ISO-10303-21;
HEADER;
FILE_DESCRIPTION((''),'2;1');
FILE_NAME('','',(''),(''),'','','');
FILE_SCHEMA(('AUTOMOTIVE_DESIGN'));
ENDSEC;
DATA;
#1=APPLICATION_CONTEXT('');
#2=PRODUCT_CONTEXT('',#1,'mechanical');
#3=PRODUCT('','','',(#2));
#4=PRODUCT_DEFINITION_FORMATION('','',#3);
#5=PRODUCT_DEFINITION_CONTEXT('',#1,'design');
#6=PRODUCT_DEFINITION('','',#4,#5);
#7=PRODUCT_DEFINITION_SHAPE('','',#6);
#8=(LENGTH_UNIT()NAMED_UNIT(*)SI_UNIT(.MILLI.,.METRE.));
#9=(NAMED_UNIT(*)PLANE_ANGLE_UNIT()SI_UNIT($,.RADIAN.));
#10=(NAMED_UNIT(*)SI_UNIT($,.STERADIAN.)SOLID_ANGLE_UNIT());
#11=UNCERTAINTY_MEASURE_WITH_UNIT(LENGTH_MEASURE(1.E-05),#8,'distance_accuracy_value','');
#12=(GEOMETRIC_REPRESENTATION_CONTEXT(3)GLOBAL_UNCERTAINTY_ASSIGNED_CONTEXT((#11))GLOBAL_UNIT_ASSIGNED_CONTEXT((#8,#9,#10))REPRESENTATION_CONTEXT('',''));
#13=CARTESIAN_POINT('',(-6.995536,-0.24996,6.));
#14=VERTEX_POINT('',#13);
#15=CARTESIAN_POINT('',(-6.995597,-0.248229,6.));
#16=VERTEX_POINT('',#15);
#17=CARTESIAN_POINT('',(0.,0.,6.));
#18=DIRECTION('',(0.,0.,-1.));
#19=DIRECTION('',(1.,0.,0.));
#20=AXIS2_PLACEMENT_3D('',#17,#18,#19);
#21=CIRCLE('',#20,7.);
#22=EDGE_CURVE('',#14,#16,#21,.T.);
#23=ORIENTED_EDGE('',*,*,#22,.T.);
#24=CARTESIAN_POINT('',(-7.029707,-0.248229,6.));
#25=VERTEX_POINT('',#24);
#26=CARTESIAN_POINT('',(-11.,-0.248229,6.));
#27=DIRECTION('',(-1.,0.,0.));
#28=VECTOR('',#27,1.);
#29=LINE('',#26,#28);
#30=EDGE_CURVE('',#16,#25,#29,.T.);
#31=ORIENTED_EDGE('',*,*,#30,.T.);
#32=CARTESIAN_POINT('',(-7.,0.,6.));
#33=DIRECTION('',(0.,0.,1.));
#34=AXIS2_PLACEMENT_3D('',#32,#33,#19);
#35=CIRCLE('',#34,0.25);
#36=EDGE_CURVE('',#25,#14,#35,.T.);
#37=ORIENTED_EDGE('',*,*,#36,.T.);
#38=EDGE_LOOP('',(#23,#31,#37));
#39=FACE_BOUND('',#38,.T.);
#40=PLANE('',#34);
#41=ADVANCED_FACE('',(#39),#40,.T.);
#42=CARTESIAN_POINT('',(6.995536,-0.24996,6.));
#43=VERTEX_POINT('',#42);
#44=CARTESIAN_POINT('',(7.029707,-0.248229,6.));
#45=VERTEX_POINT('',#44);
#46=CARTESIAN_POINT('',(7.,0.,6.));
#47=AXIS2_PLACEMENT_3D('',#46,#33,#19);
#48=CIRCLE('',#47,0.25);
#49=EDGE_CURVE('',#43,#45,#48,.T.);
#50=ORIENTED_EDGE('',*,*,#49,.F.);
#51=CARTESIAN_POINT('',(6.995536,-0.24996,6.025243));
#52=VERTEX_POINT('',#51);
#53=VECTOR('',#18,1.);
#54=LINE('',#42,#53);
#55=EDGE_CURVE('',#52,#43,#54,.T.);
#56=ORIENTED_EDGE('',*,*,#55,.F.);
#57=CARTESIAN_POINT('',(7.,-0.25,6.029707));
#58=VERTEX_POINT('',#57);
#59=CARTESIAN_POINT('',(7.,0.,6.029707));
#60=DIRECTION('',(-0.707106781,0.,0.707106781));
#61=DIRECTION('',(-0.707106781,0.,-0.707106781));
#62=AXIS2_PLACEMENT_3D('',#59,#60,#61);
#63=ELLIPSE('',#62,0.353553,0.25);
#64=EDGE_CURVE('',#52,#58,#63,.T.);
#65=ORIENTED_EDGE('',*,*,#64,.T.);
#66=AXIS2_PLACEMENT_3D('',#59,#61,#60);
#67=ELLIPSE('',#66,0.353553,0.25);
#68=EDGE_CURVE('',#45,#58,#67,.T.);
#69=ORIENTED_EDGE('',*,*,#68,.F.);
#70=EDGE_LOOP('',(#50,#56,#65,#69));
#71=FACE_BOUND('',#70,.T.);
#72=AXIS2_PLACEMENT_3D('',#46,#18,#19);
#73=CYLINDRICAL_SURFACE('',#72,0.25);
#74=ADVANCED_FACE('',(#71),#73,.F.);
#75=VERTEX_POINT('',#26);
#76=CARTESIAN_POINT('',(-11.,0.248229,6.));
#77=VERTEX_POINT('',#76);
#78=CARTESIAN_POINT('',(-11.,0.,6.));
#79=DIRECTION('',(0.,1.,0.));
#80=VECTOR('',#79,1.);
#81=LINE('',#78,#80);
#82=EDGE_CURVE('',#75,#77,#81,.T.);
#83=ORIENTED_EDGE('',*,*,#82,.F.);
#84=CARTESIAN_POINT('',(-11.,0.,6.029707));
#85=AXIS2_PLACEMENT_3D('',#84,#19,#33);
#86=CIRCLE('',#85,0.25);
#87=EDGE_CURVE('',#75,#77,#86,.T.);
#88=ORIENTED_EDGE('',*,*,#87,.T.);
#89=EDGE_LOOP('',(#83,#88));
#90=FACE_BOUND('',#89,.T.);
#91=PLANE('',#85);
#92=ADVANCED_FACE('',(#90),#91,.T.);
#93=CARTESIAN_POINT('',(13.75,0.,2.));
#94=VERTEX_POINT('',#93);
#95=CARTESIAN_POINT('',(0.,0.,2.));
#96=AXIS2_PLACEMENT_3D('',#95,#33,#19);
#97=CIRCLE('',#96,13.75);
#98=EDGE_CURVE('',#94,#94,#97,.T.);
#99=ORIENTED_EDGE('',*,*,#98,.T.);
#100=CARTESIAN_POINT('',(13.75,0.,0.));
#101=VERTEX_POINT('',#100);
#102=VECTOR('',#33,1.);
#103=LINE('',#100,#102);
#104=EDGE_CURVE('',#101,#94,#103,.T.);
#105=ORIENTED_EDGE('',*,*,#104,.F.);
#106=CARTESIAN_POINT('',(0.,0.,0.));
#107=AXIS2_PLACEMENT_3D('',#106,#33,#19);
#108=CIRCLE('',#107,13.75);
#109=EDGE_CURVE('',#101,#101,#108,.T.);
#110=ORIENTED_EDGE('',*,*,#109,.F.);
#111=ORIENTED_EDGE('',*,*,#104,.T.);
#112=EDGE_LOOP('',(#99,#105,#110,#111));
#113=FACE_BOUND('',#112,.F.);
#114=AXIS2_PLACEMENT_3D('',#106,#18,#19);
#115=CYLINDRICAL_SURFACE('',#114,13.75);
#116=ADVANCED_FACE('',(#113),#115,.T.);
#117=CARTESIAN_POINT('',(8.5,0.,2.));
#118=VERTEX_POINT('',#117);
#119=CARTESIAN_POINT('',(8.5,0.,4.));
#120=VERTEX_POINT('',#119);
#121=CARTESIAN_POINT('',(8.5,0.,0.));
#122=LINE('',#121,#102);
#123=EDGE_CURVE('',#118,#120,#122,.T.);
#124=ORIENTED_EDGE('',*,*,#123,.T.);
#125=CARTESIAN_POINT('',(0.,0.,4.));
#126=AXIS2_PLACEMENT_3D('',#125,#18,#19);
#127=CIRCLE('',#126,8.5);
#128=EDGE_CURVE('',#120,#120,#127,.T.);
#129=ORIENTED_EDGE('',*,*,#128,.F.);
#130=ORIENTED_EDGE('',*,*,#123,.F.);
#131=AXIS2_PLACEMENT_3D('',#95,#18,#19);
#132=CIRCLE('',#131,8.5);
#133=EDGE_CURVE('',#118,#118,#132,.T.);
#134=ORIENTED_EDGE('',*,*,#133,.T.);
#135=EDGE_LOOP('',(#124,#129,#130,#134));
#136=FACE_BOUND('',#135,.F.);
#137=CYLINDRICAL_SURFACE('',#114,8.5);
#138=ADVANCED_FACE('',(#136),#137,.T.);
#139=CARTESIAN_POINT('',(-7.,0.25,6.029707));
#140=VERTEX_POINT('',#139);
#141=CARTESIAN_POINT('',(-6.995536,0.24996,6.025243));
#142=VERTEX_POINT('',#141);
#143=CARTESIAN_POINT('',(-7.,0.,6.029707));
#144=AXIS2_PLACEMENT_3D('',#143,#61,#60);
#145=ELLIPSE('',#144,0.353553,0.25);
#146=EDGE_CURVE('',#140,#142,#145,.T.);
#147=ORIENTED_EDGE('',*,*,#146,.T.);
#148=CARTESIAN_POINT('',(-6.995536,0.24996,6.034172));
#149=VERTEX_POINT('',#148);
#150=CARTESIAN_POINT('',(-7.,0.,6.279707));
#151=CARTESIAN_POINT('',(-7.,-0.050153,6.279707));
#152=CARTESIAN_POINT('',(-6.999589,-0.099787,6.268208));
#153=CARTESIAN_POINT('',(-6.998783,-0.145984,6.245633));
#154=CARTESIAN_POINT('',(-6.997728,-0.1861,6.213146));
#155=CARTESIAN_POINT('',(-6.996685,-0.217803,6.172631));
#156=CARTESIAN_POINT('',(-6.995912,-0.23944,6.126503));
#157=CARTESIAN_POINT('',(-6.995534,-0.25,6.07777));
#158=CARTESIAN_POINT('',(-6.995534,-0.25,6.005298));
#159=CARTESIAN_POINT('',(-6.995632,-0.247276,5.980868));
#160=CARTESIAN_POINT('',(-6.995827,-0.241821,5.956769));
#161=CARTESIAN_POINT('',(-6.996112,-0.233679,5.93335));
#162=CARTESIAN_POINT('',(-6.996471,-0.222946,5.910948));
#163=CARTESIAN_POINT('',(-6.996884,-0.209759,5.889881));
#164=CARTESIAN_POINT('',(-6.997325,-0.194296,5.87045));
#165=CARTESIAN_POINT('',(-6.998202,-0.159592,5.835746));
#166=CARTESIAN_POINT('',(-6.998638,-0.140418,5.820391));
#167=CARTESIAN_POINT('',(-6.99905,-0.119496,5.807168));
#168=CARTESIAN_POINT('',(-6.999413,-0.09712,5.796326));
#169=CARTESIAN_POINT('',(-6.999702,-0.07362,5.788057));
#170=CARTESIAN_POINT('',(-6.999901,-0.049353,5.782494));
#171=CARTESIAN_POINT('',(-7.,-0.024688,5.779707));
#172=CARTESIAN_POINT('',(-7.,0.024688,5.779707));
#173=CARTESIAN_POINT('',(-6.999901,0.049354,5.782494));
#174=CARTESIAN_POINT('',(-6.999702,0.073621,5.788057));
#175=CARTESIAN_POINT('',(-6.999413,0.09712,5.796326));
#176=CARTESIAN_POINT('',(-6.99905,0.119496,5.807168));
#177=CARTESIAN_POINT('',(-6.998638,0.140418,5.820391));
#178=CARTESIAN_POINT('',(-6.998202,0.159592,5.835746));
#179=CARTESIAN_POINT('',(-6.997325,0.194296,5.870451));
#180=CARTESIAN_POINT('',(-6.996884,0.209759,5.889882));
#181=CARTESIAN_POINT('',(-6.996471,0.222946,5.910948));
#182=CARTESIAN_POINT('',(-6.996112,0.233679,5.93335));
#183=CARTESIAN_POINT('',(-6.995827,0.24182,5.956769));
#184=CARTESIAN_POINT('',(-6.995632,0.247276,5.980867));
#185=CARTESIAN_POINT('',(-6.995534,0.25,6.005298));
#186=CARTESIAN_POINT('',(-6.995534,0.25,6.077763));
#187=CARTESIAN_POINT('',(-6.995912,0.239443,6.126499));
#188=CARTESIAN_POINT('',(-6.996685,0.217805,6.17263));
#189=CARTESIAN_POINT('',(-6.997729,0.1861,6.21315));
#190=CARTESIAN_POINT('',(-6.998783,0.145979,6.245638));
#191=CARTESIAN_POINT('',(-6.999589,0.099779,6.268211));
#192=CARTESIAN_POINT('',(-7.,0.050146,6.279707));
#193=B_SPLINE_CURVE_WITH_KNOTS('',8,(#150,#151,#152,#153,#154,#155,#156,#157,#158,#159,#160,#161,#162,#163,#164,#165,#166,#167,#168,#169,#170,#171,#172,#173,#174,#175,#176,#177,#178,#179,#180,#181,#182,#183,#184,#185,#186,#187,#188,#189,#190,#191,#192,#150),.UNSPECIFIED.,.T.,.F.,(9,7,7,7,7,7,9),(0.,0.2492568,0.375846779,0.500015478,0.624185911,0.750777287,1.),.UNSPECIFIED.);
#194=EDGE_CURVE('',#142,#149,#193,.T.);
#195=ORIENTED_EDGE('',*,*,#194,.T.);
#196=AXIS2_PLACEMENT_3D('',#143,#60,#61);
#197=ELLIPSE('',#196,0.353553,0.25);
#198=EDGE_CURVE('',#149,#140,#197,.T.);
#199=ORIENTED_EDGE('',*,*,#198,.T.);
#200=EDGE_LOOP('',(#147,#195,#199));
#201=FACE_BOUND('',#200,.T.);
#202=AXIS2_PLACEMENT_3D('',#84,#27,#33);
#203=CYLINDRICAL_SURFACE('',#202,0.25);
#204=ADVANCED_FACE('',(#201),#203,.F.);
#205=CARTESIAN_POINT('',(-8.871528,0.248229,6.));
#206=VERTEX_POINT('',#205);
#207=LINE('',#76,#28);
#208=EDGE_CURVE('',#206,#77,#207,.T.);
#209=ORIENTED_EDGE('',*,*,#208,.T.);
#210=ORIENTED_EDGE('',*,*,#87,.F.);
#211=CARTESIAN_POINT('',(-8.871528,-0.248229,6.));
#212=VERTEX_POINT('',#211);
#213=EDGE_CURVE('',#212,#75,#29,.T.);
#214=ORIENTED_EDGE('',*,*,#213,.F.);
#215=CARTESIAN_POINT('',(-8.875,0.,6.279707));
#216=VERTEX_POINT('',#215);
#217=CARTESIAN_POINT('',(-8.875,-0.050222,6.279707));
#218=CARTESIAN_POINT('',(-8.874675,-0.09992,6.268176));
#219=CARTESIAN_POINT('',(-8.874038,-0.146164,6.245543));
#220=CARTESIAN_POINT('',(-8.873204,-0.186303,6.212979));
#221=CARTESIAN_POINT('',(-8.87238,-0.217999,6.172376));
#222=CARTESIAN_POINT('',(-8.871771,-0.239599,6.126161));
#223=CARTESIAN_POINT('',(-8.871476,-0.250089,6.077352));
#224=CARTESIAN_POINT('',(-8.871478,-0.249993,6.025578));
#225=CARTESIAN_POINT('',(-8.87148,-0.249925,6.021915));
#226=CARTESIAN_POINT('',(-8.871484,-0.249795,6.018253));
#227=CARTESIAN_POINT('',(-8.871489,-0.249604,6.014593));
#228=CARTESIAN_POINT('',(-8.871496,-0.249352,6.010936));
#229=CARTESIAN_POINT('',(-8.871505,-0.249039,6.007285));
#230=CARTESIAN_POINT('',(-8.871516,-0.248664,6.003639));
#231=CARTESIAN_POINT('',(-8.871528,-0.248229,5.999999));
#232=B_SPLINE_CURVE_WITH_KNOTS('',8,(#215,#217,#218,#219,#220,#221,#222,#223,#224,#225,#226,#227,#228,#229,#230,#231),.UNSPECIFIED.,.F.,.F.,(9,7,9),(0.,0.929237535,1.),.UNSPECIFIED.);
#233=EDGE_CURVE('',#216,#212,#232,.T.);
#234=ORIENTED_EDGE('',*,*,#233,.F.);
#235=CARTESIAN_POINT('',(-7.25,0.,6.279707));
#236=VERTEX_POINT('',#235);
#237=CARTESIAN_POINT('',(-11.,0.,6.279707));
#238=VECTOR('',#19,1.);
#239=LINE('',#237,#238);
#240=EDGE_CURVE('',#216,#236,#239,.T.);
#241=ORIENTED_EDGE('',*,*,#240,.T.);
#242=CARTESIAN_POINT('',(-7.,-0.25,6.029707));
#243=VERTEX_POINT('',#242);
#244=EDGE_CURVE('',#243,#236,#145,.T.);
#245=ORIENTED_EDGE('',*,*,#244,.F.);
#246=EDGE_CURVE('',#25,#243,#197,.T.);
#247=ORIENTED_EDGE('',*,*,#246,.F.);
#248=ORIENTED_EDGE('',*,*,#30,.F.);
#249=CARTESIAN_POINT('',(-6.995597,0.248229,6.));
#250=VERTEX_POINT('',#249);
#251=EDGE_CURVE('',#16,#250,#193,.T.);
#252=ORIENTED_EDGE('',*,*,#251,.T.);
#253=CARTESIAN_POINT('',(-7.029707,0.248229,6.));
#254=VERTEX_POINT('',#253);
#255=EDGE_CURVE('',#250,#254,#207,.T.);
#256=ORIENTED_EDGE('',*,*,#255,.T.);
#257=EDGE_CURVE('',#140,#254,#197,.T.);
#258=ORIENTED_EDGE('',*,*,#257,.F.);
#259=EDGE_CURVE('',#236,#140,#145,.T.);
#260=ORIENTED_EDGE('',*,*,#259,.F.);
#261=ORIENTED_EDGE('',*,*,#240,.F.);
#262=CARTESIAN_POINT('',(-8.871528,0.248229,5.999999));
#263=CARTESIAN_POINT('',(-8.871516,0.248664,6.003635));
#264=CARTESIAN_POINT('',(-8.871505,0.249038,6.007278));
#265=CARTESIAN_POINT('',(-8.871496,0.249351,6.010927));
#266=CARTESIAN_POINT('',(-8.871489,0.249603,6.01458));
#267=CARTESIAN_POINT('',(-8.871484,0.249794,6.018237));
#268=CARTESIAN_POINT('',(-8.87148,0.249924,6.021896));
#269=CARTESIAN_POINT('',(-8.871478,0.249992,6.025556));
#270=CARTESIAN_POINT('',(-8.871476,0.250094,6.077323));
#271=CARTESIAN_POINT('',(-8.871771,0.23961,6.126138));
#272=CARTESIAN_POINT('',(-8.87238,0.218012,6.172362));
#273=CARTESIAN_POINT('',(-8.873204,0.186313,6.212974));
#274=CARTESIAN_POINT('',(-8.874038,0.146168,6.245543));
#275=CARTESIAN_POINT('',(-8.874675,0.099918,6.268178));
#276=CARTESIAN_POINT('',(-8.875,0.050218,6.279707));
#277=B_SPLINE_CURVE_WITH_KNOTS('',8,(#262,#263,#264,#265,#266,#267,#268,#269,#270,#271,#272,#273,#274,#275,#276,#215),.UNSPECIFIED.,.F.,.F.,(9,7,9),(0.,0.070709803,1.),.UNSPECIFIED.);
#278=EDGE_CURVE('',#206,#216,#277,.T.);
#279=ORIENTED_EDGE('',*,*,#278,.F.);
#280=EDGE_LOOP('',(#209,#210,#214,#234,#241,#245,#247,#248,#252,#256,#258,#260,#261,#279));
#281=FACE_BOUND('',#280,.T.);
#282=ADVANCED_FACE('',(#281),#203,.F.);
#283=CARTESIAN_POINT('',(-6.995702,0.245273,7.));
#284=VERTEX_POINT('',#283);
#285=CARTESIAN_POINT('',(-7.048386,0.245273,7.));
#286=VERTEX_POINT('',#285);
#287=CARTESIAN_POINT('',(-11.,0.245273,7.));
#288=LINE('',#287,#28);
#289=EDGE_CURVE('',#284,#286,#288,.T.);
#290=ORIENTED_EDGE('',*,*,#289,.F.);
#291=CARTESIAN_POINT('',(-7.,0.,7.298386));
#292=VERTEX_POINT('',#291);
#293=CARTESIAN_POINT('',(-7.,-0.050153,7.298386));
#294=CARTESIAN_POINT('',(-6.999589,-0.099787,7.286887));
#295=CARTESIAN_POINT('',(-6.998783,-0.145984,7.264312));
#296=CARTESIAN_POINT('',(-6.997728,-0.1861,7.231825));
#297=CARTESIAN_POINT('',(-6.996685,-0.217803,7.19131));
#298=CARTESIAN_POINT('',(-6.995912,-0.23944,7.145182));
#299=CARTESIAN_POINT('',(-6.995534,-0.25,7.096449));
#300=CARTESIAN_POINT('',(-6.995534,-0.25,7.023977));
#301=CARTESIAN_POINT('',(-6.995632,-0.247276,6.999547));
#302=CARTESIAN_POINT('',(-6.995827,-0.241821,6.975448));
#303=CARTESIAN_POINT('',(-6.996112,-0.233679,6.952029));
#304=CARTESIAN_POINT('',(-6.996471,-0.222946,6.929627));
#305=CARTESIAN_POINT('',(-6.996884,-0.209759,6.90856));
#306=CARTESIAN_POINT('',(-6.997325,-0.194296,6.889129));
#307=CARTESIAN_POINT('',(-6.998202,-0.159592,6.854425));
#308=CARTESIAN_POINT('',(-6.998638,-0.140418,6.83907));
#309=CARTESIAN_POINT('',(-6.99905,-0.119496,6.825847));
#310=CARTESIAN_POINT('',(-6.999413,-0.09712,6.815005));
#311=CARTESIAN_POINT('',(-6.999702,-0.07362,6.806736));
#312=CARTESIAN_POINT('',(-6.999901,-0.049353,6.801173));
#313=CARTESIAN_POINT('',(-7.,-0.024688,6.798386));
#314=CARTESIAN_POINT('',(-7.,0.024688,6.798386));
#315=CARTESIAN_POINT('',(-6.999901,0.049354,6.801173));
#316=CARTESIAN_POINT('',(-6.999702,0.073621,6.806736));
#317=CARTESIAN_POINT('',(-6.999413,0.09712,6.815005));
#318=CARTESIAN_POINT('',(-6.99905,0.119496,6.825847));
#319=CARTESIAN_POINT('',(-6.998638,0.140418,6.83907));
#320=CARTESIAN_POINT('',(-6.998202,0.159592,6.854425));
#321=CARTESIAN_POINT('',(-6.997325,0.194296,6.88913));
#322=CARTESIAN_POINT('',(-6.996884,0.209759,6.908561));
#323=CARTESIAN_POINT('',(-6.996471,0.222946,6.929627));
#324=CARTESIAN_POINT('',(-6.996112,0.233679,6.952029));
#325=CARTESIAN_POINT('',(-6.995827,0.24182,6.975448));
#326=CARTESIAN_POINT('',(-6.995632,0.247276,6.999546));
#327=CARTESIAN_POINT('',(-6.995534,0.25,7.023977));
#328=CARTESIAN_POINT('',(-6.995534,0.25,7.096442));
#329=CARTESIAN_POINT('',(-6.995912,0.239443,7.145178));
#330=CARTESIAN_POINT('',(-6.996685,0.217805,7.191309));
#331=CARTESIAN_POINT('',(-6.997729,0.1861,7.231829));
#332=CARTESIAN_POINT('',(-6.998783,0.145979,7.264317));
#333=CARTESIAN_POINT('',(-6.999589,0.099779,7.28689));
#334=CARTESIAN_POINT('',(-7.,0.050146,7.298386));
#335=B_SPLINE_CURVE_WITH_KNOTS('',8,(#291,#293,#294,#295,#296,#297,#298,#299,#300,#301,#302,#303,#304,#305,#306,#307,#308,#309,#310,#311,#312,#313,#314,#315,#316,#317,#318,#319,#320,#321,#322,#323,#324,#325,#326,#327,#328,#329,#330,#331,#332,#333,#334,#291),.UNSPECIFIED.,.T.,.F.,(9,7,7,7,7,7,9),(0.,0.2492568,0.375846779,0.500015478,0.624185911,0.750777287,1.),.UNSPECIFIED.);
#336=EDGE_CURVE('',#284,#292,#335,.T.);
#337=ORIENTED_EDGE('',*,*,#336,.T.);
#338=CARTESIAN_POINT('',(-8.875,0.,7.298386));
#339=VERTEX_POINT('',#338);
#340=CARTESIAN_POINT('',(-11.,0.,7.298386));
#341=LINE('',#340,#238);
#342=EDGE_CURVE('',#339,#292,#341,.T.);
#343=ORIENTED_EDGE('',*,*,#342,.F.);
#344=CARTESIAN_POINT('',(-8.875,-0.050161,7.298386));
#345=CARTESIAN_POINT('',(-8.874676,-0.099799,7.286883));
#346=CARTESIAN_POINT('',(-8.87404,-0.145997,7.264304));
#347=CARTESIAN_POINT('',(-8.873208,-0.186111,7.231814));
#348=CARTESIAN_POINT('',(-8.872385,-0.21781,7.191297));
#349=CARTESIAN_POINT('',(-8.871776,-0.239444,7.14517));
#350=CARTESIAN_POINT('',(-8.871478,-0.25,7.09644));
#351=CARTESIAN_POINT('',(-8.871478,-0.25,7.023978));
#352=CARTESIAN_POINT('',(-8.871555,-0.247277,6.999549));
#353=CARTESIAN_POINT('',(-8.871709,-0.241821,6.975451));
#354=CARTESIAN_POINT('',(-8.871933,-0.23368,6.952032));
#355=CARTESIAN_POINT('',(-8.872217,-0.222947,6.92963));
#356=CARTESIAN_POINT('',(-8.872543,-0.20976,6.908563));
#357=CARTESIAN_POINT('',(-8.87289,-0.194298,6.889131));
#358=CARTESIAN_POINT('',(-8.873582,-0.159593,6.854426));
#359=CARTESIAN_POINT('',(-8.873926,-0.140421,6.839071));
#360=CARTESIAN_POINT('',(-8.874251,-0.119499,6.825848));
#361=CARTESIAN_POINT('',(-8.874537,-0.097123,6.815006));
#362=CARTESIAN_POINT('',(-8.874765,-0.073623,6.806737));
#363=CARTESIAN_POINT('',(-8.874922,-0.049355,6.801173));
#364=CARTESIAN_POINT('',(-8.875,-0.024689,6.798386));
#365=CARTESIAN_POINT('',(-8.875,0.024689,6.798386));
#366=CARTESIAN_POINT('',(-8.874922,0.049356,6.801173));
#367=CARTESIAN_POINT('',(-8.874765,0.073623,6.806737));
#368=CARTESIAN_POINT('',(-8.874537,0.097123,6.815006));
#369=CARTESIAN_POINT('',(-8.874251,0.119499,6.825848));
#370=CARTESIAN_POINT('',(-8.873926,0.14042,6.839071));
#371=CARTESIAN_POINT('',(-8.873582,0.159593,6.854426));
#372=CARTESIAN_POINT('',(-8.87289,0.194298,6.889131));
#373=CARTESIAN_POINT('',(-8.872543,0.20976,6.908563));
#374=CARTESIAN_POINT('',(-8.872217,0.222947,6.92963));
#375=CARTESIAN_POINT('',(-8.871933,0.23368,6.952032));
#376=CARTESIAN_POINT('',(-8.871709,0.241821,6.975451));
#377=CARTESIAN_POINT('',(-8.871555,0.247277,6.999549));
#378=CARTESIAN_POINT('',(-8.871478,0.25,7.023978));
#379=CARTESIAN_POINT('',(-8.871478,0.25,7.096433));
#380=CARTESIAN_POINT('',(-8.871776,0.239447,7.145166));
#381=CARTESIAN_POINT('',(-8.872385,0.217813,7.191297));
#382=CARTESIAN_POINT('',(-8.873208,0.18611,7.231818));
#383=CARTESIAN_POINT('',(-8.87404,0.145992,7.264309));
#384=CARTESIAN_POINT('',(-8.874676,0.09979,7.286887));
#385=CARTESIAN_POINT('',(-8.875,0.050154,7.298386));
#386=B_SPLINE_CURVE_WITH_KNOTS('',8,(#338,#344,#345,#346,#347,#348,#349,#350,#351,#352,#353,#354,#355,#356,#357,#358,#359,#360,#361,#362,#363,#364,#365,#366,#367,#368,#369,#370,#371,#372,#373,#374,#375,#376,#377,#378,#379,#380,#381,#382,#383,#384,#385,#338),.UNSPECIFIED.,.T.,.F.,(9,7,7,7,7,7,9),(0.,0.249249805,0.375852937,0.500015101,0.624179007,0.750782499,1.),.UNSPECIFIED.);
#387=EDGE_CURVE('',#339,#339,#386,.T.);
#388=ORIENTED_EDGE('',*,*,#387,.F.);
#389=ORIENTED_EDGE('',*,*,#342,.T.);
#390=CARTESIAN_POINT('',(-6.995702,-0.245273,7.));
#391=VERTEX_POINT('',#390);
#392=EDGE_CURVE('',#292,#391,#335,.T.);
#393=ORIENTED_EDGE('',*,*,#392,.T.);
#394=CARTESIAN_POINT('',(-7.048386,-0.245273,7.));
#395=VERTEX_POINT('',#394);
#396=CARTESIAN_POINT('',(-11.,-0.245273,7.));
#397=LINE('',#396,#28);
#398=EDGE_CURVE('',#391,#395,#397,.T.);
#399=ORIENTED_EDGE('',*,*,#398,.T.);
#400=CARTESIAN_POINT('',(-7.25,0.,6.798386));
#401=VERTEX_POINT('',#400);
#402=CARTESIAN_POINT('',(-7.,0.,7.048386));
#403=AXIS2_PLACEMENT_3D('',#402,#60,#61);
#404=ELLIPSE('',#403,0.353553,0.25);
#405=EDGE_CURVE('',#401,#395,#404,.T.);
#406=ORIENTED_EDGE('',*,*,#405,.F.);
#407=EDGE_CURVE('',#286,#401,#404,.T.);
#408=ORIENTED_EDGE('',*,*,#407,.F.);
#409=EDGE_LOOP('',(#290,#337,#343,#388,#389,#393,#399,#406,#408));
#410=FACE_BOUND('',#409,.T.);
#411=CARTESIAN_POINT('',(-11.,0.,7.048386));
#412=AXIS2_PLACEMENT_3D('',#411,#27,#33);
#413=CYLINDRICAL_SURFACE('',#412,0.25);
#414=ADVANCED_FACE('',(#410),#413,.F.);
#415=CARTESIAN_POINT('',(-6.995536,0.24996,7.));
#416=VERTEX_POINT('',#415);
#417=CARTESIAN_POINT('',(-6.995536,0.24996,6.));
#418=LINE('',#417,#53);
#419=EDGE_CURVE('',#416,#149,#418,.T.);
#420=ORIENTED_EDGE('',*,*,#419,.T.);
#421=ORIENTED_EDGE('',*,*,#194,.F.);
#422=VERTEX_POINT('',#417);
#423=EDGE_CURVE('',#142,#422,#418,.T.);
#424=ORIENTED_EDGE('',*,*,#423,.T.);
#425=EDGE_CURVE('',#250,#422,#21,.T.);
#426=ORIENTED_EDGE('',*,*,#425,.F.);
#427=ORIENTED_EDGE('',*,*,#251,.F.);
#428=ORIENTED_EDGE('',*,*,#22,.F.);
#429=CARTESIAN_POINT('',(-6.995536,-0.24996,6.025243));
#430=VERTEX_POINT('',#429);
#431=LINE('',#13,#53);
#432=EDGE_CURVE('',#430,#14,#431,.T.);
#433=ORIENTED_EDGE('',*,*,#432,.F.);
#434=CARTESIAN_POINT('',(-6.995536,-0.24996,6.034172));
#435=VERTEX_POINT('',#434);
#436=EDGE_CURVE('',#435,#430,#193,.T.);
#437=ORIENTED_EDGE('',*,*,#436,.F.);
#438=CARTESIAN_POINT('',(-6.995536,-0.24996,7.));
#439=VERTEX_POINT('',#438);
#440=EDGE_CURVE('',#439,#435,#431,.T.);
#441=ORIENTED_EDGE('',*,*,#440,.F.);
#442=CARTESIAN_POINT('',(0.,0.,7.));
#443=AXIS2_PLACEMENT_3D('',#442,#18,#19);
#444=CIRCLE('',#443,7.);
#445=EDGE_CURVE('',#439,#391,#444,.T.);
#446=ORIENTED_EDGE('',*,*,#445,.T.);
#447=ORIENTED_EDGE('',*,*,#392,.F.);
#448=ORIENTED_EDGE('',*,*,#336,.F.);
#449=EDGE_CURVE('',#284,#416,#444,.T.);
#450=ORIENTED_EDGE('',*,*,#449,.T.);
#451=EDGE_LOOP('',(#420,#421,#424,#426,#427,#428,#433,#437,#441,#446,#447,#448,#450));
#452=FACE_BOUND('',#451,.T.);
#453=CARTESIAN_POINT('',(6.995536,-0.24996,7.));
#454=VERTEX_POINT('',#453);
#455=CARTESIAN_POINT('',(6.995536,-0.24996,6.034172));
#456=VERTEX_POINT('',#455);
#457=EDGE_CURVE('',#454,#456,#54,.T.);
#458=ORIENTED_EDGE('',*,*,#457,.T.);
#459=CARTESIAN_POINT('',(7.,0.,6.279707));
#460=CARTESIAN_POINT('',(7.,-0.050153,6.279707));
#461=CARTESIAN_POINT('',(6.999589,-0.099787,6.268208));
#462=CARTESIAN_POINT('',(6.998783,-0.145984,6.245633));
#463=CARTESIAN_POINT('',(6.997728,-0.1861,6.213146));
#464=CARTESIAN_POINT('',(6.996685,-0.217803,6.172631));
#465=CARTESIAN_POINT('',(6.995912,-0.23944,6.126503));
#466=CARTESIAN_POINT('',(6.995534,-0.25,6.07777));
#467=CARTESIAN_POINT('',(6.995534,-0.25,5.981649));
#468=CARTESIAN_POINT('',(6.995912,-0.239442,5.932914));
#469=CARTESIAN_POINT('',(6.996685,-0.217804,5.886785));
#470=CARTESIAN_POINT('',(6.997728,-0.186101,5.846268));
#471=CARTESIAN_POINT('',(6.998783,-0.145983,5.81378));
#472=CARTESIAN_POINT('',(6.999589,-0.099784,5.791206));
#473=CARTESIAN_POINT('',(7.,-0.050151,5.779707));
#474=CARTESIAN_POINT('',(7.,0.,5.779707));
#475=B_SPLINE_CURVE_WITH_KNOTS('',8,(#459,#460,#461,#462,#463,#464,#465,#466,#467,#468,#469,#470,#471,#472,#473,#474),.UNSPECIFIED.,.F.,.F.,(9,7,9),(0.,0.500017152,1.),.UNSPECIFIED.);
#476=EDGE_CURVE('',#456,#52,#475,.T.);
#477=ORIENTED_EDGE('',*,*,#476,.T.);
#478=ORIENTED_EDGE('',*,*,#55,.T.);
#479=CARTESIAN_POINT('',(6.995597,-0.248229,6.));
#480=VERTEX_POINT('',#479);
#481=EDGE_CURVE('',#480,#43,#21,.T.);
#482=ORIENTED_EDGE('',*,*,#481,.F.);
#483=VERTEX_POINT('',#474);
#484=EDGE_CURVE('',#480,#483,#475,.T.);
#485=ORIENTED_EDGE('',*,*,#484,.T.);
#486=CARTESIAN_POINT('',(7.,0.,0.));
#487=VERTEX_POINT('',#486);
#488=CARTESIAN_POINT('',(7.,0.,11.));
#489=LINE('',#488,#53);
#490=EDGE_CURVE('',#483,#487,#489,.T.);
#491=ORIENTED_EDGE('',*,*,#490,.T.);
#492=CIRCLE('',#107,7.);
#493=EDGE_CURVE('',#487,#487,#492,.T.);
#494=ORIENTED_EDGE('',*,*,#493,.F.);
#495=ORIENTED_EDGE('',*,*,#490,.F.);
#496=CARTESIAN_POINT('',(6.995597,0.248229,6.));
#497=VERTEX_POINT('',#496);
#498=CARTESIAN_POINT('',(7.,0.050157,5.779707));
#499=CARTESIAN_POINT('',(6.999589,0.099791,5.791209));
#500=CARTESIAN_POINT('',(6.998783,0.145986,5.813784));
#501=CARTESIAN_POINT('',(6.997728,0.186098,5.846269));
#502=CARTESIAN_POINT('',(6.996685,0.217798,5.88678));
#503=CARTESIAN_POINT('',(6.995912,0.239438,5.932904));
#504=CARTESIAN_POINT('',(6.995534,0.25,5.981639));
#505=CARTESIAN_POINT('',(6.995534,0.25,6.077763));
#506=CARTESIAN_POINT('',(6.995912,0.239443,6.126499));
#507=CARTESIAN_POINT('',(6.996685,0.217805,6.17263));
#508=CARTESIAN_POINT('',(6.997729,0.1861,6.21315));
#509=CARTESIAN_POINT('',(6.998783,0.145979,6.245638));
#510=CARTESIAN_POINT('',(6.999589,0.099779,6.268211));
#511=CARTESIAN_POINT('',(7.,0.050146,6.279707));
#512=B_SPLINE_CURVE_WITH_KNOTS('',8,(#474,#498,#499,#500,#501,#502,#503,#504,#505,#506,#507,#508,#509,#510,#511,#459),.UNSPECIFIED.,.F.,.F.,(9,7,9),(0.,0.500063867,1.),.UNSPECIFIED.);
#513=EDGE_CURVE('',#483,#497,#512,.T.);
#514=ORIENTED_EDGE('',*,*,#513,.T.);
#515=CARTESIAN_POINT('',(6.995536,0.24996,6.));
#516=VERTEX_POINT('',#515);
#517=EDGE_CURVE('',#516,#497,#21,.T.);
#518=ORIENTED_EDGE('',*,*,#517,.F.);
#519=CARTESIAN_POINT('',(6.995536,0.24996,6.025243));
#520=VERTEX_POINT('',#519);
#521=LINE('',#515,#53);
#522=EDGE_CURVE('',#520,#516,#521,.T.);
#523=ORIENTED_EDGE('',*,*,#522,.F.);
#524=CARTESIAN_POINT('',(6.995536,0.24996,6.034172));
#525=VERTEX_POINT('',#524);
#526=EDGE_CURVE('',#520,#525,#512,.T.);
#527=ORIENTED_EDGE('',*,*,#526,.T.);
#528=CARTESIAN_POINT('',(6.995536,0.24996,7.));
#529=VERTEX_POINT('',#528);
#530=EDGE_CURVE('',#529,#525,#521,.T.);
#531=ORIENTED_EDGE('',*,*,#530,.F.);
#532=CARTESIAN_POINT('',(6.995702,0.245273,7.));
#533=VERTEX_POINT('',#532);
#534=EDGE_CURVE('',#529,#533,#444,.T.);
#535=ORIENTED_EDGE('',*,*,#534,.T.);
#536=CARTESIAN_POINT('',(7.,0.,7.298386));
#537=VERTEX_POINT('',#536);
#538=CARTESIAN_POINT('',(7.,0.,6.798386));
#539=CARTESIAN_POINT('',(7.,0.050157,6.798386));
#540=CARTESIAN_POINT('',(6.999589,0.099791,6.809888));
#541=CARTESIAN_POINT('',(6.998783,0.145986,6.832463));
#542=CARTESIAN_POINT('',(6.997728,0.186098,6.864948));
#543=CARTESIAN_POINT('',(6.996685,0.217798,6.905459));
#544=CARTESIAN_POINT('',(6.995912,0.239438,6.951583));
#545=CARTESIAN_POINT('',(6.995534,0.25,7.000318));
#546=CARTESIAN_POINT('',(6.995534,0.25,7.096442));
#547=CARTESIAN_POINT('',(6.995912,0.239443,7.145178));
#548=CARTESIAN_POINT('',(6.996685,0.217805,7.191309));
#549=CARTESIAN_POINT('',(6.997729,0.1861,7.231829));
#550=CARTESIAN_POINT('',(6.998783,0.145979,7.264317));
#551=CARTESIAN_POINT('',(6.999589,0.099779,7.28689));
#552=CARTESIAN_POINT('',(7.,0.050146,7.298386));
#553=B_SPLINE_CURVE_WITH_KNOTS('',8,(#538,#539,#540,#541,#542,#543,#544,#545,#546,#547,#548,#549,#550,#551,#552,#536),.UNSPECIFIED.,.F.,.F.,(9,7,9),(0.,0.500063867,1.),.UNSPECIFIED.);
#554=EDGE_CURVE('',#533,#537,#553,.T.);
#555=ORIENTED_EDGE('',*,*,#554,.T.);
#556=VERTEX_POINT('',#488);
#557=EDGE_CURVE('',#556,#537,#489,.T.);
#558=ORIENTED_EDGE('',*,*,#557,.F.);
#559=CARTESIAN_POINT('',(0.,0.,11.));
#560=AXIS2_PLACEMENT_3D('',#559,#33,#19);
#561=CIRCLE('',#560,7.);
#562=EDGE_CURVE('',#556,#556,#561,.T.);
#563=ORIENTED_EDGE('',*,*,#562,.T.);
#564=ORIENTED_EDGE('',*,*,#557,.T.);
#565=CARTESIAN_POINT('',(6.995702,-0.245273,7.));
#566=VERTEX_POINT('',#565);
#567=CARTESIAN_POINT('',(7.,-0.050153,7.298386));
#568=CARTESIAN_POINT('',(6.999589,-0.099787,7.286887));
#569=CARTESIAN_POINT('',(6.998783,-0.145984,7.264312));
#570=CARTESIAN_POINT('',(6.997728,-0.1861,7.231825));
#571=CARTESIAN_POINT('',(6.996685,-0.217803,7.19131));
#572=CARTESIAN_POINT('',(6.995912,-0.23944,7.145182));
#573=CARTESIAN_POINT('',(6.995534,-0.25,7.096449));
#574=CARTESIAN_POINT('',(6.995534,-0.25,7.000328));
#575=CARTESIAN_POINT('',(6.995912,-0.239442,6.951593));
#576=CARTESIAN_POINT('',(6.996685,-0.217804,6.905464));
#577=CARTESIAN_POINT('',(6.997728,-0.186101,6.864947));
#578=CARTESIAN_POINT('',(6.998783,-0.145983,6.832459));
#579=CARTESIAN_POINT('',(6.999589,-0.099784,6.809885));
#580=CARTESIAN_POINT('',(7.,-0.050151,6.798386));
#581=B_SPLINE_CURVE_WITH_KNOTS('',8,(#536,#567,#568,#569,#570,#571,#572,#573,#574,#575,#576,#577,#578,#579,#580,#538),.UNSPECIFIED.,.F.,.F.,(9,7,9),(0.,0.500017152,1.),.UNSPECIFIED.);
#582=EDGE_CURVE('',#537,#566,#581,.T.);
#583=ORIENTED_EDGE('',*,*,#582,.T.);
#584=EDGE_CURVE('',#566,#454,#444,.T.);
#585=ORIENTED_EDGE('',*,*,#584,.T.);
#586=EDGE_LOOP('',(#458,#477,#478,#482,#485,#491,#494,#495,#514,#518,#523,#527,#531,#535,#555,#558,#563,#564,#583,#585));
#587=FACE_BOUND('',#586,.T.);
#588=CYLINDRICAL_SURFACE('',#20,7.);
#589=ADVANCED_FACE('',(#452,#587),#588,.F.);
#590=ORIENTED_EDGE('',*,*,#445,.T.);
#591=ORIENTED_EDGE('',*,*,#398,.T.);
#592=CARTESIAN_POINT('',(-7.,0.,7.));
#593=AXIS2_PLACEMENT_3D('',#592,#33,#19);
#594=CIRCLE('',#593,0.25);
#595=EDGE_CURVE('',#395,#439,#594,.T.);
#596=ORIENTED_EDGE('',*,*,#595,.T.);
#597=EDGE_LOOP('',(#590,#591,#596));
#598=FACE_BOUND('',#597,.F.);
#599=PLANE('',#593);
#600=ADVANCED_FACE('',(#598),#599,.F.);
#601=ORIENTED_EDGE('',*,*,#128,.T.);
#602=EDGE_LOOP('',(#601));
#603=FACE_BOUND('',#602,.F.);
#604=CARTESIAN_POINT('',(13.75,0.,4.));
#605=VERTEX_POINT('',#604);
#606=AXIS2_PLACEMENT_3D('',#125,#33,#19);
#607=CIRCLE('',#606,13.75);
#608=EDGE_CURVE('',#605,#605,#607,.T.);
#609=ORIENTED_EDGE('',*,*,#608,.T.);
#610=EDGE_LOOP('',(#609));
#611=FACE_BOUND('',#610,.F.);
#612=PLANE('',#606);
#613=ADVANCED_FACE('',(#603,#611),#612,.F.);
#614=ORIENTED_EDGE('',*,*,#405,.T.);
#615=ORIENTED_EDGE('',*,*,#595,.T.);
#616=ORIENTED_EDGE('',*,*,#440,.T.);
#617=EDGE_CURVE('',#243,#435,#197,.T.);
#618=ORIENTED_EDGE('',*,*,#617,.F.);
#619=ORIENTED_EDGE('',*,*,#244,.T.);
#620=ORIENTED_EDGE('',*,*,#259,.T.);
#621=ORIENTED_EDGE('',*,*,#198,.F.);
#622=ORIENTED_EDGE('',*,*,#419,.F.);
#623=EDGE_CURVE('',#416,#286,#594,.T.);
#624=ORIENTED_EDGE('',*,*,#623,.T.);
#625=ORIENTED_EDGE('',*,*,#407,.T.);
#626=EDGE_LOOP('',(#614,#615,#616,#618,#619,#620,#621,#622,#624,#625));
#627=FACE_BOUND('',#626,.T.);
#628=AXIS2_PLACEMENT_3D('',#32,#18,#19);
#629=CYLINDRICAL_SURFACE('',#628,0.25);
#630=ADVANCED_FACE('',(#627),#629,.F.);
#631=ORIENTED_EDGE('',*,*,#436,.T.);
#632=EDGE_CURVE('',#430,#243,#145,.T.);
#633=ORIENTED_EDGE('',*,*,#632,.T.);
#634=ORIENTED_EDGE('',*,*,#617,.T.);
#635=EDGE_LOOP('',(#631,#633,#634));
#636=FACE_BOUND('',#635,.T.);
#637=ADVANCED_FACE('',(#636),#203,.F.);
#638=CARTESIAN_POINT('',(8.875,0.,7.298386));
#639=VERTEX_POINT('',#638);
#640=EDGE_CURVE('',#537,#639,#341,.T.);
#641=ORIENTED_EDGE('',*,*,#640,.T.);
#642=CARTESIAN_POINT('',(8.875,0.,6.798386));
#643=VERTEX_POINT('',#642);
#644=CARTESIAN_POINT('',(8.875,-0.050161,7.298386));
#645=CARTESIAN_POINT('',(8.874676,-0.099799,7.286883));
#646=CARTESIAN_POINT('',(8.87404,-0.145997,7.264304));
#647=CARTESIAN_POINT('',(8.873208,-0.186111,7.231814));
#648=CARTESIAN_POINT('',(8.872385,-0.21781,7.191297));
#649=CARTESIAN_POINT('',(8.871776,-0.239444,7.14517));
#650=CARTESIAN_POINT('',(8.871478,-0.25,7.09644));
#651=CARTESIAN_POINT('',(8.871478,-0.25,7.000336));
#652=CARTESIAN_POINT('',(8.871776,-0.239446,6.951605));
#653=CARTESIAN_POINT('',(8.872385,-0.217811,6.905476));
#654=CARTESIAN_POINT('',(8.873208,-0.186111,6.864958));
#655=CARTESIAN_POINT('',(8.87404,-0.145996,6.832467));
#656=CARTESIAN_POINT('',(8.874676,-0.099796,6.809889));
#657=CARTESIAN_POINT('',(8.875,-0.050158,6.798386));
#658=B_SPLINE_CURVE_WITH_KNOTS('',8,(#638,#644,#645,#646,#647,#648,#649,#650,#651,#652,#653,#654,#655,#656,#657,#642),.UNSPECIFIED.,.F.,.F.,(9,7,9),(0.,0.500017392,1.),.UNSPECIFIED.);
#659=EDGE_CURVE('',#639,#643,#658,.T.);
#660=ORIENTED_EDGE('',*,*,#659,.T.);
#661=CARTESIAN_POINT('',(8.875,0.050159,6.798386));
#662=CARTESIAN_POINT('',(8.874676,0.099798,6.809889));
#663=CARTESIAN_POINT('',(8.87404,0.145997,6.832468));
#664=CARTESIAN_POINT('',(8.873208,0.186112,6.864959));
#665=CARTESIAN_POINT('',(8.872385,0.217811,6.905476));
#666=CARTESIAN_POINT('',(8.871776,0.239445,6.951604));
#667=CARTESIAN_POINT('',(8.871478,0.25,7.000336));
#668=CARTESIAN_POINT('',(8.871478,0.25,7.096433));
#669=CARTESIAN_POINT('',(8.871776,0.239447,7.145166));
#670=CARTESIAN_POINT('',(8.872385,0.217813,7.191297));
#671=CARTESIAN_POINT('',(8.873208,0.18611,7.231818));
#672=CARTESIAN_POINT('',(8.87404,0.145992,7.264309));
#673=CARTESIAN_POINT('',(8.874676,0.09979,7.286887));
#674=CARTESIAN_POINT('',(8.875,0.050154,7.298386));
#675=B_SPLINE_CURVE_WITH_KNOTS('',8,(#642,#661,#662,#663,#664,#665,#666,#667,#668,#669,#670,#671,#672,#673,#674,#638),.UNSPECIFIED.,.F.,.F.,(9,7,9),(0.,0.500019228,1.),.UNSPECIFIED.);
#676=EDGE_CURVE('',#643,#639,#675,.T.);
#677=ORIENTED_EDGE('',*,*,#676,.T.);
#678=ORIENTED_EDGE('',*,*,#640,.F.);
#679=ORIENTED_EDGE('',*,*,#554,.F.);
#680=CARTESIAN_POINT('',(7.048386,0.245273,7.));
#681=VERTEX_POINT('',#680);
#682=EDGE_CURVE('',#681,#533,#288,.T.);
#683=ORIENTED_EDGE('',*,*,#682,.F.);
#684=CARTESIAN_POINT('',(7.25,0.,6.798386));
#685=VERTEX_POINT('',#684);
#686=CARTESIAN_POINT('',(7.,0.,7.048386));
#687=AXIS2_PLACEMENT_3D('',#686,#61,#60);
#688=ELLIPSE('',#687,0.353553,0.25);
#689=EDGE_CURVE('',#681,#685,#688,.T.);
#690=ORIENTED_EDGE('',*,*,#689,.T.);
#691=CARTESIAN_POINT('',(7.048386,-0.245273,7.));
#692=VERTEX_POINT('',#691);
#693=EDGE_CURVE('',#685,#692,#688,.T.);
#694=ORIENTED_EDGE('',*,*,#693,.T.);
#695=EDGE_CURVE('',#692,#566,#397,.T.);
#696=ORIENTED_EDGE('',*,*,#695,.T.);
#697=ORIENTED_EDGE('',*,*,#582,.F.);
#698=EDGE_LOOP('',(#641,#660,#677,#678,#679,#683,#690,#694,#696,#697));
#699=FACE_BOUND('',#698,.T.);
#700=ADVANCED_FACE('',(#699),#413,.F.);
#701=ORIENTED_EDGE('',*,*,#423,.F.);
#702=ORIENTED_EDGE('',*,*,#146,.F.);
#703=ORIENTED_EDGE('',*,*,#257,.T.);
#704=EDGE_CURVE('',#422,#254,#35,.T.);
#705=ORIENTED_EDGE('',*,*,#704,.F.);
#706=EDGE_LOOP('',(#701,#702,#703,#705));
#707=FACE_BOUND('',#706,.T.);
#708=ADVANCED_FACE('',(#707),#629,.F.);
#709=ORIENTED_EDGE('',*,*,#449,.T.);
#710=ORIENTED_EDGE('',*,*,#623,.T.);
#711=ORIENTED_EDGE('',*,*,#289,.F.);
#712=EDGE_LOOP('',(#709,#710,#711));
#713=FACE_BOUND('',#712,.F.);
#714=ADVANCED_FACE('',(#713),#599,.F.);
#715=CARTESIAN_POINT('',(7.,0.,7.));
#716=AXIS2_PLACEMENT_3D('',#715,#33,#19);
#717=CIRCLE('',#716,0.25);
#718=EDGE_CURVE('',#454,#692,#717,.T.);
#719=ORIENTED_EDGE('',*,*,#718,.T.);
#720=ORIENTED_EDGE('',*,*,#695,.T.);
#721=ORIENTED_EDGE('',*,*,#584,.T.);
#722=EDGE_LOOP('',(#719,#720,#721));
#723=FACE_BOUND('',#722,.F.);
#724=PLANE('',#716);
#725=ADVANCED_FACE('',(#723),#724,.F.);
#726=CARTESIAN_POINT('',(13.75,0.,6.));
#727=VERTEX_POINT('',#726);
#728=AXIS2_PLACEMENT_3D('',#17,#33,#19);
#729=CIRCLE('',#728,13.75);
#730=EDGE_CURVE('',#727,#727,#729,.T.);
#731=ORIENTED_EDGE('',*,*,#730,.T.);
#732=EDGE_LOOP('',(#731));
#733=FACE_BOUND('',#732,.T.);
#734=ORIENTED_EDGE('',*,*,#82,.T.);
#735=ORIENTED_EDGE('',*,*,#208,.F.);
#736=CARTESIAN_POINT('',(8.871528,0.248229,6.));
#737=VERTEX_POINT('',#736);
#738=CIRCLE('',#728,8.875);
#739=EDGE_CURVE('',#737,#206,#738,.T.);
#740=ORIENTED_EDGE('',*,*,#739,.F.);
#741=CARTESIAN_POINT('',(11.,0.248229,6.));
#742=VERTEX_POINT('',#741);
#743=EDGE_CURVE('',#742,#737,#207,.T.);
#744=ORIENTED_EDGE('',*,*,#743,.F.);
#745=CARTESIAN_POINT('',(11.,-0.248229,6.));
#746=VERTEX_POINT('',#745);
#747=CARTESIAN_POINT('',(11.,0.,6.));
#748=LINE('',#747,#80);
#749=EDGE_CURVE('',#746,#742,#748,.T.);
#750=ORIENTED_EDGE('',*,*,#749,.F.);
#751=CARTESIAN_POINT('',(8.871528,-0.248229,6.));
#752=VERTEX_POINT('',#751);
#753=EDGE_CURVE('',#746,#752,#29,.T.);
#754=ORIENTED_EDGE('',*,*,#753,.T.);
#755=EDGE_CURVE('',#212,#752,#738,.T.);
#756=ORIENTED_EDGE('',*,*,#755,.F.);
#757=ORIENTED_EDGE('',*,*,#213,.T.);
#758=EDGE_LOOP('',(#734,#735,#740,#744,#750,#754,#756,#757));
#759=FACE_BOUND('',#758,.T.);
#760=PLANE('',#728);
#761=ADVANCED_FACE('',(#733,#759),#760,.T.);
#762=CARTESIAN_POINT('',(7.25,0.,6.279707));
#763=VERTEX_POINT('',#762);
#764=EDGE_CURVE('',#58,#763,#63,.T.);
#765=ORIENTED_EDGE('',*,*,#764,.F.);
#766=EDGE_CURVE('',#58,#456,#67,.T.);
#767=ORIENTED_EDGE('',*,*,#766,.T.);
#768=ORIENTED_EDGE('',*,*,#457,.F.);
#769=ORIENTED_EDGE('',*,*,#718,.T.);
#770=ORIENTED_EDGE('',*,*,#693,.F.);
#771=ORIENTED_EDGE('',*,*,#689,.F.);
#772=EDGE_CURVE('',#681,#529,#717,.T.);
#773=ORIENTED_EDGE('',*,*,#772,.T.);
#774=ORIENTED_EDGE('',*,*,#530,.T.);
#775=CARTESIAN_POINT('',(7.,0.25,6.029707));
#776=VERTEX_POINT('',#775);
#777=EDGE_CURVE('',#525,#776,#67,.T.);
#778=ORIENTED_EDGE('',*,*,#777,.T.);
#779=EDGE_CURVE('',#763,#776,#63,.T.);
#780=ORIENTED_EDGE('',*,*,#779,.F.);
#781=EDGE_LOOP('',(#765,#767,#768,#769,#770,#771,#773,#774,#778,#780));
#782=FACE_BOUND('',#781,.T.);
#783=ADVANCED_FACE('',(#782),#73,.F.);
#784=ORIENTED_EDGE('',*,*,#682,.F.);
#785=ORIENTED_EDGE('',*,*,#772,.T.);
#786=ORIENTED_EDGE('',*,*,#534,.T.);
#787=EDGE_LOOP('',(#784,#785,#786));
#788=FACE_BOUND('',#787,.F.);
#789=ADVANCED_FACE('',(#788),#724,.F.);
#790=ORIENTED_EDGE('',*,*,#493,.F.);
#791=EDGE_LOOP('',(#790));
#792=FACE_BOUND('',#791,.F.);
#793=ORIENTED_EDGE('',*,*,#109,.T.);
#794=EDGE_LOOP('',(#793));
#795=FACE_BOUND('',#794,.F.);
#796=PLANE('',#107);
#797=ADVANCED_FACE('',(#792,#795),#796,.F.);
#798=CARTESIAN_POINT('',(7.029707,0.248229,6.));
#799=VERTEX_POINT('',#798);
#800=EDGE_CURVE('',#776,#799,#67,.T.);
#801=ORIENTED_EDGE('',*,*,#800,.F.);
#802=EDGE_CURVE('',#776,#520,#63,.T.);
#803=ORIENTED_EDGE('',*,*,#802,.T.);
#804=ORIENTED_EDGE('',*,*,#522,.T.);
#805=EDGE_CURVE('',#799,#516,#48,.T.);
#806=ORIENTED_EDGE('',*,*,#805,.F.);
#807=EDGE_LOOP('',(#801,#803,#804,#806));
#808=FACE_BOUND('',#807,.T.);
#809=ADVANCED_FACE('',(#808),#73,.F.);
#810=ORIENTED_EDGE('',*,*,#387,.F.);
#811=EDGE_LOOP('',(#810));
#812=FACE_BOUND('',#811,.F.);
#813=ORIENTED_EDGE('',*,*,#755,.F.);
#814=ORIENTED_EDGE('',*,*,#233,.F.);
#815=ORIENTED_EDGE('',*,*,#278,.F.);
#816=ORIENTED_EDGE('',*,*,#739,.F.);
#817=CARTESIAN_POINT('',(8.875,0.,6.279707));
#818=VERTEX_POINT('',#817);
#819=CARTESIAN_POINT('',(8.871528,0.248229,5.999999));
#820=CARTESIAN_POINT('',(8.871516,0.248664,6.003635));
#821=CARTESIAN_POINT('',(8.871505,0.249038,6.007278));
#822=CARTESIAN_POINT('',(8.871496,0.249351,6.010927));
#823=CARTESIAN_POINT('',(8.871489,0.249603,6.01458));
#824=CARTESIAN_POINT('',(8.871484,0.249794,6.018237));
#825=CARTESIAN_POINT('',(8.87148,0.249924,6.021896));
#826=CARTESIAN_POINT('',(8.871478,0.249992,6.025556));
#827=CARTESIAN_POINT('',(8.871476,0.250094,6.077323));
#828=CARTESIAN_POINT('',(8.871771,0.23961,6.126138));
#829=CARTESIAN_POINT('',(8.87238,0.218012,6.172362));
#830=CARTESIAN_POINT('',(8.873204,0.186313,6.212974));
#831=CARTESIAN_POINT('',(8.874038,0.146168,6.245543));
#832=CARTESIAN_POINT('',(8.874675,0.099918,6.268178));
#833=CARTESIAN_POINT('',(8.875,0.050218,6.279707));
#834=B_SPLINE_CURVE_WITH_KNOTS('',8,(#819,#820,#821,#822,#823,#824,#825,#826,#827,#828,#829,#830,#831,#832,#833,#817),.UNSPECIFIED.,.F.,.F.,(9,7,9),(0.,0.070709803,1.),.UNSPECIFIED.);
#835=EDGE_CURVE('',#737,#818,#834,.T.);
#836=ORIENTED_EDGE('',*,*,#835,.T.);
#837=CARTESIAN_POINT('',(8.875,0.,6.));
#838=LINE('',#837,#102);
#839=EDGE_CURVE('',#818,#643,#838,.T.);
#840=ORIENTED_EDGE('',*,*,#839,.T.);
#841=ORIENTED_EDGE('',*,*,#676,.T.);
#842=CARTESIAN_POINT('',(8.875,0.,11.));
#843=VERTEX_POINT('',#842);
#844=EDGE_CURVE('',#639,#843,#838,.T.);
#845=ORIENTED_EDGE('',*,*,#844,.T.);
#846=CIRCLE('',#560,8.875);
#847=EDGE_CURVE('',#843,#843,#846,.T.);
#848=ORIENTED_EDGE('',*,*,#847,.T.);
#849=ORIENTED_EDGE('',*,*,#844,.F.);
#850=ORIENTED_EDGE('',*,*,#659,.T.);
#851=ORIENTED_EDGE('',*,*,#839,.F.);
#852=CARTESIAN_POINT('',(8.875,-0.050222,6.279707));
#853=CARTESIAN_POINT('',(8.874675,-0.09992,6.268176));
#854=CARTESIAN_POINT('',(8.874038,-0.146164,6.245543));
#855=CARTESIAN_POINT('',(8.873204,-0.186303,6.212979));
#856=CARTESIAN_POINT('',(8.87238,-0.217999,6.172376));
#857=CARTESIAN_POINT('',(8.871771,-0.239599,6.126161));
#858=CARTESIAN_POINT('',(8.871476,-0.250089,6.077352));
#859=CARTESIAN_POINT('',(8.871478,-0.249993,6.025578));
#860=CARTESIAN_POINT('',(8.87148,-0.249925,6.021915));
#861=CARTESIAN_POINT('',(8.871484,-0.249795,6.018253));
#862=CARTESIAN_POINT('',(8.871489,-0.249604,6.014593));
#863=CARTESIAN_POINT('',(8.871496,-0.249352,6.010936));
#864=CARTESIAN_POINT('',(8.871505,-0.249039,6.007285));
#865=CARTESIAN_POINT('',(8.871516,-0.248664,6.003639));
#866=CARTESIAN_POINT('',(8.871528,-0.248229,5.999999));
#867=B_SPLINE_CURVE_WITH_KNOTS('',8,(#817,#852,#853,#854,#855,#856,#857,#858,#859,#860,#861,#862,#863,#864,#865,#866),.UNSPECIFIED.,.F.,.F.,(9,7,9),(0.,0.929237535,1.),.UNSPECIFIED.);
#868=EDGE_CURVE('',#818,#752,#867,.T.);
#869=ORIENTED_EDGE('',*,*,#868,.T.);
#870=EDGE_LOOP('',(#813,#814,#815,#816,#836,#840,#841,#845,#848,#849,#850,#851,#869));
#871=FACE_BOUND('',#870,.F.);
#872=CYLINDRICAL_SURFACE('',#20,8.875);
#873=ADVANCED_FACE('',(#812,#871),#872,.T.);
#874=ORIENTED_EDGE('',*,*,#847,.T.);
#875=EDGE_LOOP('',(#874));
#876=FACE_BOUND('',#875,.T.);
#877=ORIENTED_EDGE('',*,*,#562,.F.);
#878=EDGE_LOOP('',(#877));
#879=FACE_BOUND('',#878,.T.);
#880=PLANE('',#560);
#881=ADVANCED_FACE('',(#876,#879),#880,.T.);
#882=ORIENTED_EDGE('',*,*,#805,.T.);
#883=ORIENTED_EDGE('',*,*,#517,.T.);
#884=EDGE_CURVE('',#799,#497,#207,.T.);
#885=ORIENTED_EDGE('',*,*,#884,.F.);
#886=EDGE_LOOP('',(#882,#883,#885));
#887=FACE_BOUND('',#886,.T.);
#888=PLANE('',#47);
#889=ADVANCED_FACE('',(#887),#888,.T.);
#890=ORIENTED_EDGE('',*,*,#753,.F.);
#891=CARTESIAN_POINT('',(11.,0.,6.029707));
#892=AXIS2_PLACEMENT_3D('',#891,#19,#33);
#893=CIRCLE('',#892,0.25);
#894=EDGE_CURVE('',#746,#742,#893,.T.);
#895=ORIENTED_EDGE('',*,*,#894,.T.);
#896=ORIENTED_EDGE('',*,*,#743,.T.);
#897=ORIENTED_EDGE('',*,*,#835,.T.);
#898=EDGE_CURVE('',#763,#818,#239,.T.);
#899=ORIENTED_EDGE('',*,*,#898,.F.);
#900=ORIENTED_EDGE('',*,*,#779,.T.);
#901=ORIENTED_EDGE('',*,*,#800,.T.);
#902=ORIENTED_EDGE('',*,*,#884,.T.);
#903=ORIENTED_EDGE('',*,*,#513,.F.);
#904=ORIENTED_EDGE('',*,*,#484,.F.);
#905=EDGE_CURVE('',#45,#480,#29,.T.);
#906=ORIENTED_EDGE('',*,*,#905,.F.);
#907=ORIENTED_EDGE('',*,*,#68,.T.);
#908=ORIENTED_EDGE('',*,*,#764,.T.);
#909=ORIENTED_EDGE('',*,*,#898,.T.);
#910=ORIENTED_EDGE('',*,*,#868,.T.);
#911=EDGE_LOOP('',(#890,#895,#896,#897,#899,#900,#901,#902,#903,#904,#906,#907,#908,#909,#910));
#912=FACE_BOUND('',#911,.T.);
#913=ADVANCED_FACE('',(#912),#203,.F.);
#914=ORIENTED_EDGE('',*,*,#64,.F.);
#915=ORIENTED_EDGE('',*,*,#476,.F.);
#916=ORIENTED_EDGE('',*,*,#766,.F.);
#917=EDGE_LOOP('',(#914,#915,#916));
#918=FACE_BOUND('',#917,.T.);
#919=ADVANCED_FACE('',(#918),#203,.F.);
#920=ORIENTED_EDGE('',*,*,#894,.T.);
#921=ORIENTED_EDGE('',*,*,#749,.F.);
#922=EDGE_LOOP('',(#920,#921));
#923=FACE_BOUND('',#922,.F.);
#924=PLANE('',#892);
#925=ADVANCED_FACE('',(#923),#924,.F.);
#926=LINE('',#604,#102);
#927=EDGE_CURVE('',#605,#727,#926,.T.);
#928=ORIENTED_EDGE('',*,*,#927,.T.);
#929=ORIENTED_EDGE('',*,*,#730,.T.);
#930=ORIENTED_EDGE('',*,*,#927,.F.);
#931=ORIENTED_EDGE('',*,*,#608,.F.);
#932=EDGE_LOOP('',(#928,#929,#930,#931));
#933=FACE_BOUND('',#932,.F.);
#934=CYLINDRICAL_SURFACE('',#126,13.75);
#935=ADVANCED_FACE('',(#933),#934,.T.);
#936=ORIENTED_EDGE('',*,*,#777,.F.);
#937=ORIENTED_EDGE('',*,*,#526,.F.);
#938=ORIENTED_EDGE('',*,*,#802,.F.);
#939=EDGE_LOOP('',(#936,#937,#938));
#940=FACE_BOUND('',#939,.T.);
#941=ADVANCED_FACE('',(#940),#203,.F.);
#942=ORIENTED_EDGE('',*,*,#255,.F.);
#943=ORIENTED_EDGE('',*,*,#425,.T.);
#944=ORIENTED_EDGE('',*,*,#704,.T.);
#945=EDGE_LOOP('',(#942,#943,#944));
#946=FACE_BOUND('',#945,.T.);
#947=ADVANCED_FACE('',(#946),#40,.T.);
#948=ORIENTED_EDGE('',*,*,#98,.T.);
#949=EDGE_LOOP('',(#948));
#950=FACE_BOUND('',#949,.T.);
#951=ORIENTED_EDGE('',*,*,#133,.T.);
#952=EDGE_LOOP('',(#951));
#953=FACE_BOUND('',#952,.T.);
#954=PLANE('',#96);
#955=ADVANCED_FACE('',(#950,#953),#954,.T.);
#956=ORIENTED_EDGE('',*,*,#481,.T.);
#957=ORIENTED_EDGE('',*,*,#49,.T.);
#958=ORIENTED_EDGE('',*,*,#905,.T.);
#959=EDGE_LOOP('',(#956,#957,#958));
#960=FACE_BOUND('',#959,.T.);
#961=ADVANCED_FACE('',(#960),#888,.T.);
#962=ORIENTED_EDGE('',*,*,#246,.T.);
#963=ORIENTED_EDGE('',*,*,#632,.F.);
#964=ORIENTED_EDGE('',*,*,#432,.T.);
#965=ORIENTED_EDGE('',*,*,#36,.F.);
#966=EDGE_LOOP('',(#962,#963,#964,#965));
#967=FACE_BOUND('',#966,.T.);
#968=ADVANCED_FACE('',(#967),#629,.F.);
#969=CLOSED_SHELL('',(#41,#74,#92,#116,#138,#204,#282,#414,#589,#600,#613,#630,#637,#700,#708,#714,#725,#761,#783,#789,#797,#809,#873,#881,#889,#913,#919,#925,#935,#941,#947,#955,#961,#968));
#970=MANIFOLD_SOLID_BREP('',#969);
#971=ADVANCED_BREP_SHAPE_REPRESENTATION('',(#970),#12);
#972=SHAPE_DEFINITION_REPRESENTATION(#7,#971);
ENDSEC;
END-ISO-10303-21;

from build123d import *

# Parameters (mm, degrees)
SKETCH1_R               = 13.75
BOSS_EXTRUDE1_DEPTH     = 2
SKETCH2_R               = 8.5
BOSS_EXTRUDE2_DEPTH     = 6
BOSS_EXTRUDE3_START     = 4
SKETCH3_R               = 13.75
BOSS_EXTRUDE3_DEPTH     = 2
SKETCH5_R               = 7
CUT_EXTRUDE2_DEPTH      = 21.350061425
BOSS_EXTRUDE4_START     = 6
SKETCH6_R               = 8.875
SKETCH6_R_2             = 7
BOSS_EXTRUDE4_DEPTH     = 5
CUT_EXTRUDE7_DEPTH      = 11
CUT_EXTRUDE7_DEPTH_BACK = 11
SKETCH17_R              = 0.25
CUT_EXTRUDE13_START     = 6
SKETCH16_R              = 0.25
CUT_EXTRUDE13_DEPTH     = 1


with BuildPart() as part:
    # Sketch1 → Boss-Extrude1 (new body)
    with BuildSketch(Plane.XY):
        Circle(SKETCH1_R)
    extrude(amount=BOSS_EXTRUDE1_DEPTH)

    # Sketch2 → Boss-Extrude2 (add)
    with BuildSketch(Plane.XY):
        Circle(SKETCH2_R)
    extrude(amount=BOSS_EXTRUDE2_DEPTH)

    # Sketch3 → Boss-Extrude3 (add)
    with BuildSketch(Plane.XY.offset(BOSS_EXTRUDE3_START)):
        Circle(SKETCH3_R)
    extrude(amount=BOSS_EXTRUDE3_DEPTH)

    # Sketch5 → Cut-Extrude2 (cut, through all)
    with BuildSketch(Plane.XY):
        Circle(SKETCH5_R)
    extrude(amount=CUT_EXTRUDE2_DEPTH, mode=Mode.SUBTRACT)

    # Sketch6 → Boss-Extrude4 (add)
    with BuildSketch(Plane.XY.offset(BOSS_EXTRUDE4_START)):
        Circle(SKETCH6_R)
        Circle(SKETCH6_R_2, mode=Mode.SUBTRACT)
    extrude(amount=BOSS_EXTRUDE4_DEPTH)

    # Sketch17 → Cut-Extrude7 (cut, two sides: drawn at the far end of the back side and taken through both)
    with BuildSketch(Plane(origin=(0, 0, 0), x_dir=(0, 0, -1), z_dir=(1, 0, 0)).offset(-CUT_EXTRUDE7_DEPTH_BACK)):
        with Locations(Location((-6.029707429, 0, 0), (0, 0, 180))):
            Circle(SKETCH17_R)
        with Locations(Location((-7.048386429, 0, 0), (0, 0, 180))):
            Circle(SKETCH17_R)
    extrude(amount=CUT_EXTRUDE7_DEPTH + CUT_EXTRUDE7_DEPTH_BACK, mode=Mode.SUBTRACT)

    # Sketch16 → Cut-Extrude13 (cut)
    with BuildSketch(Plane.XY.offset(CUT_EXTRUDE13_START)):
        with Locations((-7, 0)):
            Circle(SKETCH16_R)
        with Locations((7, 0)):
            Circle(SKETCH16_R)
    extrude(amount=CUT_EXTRUDE13_DEPTH, mode=Mode.SUBTRACT)


solid = part.part
